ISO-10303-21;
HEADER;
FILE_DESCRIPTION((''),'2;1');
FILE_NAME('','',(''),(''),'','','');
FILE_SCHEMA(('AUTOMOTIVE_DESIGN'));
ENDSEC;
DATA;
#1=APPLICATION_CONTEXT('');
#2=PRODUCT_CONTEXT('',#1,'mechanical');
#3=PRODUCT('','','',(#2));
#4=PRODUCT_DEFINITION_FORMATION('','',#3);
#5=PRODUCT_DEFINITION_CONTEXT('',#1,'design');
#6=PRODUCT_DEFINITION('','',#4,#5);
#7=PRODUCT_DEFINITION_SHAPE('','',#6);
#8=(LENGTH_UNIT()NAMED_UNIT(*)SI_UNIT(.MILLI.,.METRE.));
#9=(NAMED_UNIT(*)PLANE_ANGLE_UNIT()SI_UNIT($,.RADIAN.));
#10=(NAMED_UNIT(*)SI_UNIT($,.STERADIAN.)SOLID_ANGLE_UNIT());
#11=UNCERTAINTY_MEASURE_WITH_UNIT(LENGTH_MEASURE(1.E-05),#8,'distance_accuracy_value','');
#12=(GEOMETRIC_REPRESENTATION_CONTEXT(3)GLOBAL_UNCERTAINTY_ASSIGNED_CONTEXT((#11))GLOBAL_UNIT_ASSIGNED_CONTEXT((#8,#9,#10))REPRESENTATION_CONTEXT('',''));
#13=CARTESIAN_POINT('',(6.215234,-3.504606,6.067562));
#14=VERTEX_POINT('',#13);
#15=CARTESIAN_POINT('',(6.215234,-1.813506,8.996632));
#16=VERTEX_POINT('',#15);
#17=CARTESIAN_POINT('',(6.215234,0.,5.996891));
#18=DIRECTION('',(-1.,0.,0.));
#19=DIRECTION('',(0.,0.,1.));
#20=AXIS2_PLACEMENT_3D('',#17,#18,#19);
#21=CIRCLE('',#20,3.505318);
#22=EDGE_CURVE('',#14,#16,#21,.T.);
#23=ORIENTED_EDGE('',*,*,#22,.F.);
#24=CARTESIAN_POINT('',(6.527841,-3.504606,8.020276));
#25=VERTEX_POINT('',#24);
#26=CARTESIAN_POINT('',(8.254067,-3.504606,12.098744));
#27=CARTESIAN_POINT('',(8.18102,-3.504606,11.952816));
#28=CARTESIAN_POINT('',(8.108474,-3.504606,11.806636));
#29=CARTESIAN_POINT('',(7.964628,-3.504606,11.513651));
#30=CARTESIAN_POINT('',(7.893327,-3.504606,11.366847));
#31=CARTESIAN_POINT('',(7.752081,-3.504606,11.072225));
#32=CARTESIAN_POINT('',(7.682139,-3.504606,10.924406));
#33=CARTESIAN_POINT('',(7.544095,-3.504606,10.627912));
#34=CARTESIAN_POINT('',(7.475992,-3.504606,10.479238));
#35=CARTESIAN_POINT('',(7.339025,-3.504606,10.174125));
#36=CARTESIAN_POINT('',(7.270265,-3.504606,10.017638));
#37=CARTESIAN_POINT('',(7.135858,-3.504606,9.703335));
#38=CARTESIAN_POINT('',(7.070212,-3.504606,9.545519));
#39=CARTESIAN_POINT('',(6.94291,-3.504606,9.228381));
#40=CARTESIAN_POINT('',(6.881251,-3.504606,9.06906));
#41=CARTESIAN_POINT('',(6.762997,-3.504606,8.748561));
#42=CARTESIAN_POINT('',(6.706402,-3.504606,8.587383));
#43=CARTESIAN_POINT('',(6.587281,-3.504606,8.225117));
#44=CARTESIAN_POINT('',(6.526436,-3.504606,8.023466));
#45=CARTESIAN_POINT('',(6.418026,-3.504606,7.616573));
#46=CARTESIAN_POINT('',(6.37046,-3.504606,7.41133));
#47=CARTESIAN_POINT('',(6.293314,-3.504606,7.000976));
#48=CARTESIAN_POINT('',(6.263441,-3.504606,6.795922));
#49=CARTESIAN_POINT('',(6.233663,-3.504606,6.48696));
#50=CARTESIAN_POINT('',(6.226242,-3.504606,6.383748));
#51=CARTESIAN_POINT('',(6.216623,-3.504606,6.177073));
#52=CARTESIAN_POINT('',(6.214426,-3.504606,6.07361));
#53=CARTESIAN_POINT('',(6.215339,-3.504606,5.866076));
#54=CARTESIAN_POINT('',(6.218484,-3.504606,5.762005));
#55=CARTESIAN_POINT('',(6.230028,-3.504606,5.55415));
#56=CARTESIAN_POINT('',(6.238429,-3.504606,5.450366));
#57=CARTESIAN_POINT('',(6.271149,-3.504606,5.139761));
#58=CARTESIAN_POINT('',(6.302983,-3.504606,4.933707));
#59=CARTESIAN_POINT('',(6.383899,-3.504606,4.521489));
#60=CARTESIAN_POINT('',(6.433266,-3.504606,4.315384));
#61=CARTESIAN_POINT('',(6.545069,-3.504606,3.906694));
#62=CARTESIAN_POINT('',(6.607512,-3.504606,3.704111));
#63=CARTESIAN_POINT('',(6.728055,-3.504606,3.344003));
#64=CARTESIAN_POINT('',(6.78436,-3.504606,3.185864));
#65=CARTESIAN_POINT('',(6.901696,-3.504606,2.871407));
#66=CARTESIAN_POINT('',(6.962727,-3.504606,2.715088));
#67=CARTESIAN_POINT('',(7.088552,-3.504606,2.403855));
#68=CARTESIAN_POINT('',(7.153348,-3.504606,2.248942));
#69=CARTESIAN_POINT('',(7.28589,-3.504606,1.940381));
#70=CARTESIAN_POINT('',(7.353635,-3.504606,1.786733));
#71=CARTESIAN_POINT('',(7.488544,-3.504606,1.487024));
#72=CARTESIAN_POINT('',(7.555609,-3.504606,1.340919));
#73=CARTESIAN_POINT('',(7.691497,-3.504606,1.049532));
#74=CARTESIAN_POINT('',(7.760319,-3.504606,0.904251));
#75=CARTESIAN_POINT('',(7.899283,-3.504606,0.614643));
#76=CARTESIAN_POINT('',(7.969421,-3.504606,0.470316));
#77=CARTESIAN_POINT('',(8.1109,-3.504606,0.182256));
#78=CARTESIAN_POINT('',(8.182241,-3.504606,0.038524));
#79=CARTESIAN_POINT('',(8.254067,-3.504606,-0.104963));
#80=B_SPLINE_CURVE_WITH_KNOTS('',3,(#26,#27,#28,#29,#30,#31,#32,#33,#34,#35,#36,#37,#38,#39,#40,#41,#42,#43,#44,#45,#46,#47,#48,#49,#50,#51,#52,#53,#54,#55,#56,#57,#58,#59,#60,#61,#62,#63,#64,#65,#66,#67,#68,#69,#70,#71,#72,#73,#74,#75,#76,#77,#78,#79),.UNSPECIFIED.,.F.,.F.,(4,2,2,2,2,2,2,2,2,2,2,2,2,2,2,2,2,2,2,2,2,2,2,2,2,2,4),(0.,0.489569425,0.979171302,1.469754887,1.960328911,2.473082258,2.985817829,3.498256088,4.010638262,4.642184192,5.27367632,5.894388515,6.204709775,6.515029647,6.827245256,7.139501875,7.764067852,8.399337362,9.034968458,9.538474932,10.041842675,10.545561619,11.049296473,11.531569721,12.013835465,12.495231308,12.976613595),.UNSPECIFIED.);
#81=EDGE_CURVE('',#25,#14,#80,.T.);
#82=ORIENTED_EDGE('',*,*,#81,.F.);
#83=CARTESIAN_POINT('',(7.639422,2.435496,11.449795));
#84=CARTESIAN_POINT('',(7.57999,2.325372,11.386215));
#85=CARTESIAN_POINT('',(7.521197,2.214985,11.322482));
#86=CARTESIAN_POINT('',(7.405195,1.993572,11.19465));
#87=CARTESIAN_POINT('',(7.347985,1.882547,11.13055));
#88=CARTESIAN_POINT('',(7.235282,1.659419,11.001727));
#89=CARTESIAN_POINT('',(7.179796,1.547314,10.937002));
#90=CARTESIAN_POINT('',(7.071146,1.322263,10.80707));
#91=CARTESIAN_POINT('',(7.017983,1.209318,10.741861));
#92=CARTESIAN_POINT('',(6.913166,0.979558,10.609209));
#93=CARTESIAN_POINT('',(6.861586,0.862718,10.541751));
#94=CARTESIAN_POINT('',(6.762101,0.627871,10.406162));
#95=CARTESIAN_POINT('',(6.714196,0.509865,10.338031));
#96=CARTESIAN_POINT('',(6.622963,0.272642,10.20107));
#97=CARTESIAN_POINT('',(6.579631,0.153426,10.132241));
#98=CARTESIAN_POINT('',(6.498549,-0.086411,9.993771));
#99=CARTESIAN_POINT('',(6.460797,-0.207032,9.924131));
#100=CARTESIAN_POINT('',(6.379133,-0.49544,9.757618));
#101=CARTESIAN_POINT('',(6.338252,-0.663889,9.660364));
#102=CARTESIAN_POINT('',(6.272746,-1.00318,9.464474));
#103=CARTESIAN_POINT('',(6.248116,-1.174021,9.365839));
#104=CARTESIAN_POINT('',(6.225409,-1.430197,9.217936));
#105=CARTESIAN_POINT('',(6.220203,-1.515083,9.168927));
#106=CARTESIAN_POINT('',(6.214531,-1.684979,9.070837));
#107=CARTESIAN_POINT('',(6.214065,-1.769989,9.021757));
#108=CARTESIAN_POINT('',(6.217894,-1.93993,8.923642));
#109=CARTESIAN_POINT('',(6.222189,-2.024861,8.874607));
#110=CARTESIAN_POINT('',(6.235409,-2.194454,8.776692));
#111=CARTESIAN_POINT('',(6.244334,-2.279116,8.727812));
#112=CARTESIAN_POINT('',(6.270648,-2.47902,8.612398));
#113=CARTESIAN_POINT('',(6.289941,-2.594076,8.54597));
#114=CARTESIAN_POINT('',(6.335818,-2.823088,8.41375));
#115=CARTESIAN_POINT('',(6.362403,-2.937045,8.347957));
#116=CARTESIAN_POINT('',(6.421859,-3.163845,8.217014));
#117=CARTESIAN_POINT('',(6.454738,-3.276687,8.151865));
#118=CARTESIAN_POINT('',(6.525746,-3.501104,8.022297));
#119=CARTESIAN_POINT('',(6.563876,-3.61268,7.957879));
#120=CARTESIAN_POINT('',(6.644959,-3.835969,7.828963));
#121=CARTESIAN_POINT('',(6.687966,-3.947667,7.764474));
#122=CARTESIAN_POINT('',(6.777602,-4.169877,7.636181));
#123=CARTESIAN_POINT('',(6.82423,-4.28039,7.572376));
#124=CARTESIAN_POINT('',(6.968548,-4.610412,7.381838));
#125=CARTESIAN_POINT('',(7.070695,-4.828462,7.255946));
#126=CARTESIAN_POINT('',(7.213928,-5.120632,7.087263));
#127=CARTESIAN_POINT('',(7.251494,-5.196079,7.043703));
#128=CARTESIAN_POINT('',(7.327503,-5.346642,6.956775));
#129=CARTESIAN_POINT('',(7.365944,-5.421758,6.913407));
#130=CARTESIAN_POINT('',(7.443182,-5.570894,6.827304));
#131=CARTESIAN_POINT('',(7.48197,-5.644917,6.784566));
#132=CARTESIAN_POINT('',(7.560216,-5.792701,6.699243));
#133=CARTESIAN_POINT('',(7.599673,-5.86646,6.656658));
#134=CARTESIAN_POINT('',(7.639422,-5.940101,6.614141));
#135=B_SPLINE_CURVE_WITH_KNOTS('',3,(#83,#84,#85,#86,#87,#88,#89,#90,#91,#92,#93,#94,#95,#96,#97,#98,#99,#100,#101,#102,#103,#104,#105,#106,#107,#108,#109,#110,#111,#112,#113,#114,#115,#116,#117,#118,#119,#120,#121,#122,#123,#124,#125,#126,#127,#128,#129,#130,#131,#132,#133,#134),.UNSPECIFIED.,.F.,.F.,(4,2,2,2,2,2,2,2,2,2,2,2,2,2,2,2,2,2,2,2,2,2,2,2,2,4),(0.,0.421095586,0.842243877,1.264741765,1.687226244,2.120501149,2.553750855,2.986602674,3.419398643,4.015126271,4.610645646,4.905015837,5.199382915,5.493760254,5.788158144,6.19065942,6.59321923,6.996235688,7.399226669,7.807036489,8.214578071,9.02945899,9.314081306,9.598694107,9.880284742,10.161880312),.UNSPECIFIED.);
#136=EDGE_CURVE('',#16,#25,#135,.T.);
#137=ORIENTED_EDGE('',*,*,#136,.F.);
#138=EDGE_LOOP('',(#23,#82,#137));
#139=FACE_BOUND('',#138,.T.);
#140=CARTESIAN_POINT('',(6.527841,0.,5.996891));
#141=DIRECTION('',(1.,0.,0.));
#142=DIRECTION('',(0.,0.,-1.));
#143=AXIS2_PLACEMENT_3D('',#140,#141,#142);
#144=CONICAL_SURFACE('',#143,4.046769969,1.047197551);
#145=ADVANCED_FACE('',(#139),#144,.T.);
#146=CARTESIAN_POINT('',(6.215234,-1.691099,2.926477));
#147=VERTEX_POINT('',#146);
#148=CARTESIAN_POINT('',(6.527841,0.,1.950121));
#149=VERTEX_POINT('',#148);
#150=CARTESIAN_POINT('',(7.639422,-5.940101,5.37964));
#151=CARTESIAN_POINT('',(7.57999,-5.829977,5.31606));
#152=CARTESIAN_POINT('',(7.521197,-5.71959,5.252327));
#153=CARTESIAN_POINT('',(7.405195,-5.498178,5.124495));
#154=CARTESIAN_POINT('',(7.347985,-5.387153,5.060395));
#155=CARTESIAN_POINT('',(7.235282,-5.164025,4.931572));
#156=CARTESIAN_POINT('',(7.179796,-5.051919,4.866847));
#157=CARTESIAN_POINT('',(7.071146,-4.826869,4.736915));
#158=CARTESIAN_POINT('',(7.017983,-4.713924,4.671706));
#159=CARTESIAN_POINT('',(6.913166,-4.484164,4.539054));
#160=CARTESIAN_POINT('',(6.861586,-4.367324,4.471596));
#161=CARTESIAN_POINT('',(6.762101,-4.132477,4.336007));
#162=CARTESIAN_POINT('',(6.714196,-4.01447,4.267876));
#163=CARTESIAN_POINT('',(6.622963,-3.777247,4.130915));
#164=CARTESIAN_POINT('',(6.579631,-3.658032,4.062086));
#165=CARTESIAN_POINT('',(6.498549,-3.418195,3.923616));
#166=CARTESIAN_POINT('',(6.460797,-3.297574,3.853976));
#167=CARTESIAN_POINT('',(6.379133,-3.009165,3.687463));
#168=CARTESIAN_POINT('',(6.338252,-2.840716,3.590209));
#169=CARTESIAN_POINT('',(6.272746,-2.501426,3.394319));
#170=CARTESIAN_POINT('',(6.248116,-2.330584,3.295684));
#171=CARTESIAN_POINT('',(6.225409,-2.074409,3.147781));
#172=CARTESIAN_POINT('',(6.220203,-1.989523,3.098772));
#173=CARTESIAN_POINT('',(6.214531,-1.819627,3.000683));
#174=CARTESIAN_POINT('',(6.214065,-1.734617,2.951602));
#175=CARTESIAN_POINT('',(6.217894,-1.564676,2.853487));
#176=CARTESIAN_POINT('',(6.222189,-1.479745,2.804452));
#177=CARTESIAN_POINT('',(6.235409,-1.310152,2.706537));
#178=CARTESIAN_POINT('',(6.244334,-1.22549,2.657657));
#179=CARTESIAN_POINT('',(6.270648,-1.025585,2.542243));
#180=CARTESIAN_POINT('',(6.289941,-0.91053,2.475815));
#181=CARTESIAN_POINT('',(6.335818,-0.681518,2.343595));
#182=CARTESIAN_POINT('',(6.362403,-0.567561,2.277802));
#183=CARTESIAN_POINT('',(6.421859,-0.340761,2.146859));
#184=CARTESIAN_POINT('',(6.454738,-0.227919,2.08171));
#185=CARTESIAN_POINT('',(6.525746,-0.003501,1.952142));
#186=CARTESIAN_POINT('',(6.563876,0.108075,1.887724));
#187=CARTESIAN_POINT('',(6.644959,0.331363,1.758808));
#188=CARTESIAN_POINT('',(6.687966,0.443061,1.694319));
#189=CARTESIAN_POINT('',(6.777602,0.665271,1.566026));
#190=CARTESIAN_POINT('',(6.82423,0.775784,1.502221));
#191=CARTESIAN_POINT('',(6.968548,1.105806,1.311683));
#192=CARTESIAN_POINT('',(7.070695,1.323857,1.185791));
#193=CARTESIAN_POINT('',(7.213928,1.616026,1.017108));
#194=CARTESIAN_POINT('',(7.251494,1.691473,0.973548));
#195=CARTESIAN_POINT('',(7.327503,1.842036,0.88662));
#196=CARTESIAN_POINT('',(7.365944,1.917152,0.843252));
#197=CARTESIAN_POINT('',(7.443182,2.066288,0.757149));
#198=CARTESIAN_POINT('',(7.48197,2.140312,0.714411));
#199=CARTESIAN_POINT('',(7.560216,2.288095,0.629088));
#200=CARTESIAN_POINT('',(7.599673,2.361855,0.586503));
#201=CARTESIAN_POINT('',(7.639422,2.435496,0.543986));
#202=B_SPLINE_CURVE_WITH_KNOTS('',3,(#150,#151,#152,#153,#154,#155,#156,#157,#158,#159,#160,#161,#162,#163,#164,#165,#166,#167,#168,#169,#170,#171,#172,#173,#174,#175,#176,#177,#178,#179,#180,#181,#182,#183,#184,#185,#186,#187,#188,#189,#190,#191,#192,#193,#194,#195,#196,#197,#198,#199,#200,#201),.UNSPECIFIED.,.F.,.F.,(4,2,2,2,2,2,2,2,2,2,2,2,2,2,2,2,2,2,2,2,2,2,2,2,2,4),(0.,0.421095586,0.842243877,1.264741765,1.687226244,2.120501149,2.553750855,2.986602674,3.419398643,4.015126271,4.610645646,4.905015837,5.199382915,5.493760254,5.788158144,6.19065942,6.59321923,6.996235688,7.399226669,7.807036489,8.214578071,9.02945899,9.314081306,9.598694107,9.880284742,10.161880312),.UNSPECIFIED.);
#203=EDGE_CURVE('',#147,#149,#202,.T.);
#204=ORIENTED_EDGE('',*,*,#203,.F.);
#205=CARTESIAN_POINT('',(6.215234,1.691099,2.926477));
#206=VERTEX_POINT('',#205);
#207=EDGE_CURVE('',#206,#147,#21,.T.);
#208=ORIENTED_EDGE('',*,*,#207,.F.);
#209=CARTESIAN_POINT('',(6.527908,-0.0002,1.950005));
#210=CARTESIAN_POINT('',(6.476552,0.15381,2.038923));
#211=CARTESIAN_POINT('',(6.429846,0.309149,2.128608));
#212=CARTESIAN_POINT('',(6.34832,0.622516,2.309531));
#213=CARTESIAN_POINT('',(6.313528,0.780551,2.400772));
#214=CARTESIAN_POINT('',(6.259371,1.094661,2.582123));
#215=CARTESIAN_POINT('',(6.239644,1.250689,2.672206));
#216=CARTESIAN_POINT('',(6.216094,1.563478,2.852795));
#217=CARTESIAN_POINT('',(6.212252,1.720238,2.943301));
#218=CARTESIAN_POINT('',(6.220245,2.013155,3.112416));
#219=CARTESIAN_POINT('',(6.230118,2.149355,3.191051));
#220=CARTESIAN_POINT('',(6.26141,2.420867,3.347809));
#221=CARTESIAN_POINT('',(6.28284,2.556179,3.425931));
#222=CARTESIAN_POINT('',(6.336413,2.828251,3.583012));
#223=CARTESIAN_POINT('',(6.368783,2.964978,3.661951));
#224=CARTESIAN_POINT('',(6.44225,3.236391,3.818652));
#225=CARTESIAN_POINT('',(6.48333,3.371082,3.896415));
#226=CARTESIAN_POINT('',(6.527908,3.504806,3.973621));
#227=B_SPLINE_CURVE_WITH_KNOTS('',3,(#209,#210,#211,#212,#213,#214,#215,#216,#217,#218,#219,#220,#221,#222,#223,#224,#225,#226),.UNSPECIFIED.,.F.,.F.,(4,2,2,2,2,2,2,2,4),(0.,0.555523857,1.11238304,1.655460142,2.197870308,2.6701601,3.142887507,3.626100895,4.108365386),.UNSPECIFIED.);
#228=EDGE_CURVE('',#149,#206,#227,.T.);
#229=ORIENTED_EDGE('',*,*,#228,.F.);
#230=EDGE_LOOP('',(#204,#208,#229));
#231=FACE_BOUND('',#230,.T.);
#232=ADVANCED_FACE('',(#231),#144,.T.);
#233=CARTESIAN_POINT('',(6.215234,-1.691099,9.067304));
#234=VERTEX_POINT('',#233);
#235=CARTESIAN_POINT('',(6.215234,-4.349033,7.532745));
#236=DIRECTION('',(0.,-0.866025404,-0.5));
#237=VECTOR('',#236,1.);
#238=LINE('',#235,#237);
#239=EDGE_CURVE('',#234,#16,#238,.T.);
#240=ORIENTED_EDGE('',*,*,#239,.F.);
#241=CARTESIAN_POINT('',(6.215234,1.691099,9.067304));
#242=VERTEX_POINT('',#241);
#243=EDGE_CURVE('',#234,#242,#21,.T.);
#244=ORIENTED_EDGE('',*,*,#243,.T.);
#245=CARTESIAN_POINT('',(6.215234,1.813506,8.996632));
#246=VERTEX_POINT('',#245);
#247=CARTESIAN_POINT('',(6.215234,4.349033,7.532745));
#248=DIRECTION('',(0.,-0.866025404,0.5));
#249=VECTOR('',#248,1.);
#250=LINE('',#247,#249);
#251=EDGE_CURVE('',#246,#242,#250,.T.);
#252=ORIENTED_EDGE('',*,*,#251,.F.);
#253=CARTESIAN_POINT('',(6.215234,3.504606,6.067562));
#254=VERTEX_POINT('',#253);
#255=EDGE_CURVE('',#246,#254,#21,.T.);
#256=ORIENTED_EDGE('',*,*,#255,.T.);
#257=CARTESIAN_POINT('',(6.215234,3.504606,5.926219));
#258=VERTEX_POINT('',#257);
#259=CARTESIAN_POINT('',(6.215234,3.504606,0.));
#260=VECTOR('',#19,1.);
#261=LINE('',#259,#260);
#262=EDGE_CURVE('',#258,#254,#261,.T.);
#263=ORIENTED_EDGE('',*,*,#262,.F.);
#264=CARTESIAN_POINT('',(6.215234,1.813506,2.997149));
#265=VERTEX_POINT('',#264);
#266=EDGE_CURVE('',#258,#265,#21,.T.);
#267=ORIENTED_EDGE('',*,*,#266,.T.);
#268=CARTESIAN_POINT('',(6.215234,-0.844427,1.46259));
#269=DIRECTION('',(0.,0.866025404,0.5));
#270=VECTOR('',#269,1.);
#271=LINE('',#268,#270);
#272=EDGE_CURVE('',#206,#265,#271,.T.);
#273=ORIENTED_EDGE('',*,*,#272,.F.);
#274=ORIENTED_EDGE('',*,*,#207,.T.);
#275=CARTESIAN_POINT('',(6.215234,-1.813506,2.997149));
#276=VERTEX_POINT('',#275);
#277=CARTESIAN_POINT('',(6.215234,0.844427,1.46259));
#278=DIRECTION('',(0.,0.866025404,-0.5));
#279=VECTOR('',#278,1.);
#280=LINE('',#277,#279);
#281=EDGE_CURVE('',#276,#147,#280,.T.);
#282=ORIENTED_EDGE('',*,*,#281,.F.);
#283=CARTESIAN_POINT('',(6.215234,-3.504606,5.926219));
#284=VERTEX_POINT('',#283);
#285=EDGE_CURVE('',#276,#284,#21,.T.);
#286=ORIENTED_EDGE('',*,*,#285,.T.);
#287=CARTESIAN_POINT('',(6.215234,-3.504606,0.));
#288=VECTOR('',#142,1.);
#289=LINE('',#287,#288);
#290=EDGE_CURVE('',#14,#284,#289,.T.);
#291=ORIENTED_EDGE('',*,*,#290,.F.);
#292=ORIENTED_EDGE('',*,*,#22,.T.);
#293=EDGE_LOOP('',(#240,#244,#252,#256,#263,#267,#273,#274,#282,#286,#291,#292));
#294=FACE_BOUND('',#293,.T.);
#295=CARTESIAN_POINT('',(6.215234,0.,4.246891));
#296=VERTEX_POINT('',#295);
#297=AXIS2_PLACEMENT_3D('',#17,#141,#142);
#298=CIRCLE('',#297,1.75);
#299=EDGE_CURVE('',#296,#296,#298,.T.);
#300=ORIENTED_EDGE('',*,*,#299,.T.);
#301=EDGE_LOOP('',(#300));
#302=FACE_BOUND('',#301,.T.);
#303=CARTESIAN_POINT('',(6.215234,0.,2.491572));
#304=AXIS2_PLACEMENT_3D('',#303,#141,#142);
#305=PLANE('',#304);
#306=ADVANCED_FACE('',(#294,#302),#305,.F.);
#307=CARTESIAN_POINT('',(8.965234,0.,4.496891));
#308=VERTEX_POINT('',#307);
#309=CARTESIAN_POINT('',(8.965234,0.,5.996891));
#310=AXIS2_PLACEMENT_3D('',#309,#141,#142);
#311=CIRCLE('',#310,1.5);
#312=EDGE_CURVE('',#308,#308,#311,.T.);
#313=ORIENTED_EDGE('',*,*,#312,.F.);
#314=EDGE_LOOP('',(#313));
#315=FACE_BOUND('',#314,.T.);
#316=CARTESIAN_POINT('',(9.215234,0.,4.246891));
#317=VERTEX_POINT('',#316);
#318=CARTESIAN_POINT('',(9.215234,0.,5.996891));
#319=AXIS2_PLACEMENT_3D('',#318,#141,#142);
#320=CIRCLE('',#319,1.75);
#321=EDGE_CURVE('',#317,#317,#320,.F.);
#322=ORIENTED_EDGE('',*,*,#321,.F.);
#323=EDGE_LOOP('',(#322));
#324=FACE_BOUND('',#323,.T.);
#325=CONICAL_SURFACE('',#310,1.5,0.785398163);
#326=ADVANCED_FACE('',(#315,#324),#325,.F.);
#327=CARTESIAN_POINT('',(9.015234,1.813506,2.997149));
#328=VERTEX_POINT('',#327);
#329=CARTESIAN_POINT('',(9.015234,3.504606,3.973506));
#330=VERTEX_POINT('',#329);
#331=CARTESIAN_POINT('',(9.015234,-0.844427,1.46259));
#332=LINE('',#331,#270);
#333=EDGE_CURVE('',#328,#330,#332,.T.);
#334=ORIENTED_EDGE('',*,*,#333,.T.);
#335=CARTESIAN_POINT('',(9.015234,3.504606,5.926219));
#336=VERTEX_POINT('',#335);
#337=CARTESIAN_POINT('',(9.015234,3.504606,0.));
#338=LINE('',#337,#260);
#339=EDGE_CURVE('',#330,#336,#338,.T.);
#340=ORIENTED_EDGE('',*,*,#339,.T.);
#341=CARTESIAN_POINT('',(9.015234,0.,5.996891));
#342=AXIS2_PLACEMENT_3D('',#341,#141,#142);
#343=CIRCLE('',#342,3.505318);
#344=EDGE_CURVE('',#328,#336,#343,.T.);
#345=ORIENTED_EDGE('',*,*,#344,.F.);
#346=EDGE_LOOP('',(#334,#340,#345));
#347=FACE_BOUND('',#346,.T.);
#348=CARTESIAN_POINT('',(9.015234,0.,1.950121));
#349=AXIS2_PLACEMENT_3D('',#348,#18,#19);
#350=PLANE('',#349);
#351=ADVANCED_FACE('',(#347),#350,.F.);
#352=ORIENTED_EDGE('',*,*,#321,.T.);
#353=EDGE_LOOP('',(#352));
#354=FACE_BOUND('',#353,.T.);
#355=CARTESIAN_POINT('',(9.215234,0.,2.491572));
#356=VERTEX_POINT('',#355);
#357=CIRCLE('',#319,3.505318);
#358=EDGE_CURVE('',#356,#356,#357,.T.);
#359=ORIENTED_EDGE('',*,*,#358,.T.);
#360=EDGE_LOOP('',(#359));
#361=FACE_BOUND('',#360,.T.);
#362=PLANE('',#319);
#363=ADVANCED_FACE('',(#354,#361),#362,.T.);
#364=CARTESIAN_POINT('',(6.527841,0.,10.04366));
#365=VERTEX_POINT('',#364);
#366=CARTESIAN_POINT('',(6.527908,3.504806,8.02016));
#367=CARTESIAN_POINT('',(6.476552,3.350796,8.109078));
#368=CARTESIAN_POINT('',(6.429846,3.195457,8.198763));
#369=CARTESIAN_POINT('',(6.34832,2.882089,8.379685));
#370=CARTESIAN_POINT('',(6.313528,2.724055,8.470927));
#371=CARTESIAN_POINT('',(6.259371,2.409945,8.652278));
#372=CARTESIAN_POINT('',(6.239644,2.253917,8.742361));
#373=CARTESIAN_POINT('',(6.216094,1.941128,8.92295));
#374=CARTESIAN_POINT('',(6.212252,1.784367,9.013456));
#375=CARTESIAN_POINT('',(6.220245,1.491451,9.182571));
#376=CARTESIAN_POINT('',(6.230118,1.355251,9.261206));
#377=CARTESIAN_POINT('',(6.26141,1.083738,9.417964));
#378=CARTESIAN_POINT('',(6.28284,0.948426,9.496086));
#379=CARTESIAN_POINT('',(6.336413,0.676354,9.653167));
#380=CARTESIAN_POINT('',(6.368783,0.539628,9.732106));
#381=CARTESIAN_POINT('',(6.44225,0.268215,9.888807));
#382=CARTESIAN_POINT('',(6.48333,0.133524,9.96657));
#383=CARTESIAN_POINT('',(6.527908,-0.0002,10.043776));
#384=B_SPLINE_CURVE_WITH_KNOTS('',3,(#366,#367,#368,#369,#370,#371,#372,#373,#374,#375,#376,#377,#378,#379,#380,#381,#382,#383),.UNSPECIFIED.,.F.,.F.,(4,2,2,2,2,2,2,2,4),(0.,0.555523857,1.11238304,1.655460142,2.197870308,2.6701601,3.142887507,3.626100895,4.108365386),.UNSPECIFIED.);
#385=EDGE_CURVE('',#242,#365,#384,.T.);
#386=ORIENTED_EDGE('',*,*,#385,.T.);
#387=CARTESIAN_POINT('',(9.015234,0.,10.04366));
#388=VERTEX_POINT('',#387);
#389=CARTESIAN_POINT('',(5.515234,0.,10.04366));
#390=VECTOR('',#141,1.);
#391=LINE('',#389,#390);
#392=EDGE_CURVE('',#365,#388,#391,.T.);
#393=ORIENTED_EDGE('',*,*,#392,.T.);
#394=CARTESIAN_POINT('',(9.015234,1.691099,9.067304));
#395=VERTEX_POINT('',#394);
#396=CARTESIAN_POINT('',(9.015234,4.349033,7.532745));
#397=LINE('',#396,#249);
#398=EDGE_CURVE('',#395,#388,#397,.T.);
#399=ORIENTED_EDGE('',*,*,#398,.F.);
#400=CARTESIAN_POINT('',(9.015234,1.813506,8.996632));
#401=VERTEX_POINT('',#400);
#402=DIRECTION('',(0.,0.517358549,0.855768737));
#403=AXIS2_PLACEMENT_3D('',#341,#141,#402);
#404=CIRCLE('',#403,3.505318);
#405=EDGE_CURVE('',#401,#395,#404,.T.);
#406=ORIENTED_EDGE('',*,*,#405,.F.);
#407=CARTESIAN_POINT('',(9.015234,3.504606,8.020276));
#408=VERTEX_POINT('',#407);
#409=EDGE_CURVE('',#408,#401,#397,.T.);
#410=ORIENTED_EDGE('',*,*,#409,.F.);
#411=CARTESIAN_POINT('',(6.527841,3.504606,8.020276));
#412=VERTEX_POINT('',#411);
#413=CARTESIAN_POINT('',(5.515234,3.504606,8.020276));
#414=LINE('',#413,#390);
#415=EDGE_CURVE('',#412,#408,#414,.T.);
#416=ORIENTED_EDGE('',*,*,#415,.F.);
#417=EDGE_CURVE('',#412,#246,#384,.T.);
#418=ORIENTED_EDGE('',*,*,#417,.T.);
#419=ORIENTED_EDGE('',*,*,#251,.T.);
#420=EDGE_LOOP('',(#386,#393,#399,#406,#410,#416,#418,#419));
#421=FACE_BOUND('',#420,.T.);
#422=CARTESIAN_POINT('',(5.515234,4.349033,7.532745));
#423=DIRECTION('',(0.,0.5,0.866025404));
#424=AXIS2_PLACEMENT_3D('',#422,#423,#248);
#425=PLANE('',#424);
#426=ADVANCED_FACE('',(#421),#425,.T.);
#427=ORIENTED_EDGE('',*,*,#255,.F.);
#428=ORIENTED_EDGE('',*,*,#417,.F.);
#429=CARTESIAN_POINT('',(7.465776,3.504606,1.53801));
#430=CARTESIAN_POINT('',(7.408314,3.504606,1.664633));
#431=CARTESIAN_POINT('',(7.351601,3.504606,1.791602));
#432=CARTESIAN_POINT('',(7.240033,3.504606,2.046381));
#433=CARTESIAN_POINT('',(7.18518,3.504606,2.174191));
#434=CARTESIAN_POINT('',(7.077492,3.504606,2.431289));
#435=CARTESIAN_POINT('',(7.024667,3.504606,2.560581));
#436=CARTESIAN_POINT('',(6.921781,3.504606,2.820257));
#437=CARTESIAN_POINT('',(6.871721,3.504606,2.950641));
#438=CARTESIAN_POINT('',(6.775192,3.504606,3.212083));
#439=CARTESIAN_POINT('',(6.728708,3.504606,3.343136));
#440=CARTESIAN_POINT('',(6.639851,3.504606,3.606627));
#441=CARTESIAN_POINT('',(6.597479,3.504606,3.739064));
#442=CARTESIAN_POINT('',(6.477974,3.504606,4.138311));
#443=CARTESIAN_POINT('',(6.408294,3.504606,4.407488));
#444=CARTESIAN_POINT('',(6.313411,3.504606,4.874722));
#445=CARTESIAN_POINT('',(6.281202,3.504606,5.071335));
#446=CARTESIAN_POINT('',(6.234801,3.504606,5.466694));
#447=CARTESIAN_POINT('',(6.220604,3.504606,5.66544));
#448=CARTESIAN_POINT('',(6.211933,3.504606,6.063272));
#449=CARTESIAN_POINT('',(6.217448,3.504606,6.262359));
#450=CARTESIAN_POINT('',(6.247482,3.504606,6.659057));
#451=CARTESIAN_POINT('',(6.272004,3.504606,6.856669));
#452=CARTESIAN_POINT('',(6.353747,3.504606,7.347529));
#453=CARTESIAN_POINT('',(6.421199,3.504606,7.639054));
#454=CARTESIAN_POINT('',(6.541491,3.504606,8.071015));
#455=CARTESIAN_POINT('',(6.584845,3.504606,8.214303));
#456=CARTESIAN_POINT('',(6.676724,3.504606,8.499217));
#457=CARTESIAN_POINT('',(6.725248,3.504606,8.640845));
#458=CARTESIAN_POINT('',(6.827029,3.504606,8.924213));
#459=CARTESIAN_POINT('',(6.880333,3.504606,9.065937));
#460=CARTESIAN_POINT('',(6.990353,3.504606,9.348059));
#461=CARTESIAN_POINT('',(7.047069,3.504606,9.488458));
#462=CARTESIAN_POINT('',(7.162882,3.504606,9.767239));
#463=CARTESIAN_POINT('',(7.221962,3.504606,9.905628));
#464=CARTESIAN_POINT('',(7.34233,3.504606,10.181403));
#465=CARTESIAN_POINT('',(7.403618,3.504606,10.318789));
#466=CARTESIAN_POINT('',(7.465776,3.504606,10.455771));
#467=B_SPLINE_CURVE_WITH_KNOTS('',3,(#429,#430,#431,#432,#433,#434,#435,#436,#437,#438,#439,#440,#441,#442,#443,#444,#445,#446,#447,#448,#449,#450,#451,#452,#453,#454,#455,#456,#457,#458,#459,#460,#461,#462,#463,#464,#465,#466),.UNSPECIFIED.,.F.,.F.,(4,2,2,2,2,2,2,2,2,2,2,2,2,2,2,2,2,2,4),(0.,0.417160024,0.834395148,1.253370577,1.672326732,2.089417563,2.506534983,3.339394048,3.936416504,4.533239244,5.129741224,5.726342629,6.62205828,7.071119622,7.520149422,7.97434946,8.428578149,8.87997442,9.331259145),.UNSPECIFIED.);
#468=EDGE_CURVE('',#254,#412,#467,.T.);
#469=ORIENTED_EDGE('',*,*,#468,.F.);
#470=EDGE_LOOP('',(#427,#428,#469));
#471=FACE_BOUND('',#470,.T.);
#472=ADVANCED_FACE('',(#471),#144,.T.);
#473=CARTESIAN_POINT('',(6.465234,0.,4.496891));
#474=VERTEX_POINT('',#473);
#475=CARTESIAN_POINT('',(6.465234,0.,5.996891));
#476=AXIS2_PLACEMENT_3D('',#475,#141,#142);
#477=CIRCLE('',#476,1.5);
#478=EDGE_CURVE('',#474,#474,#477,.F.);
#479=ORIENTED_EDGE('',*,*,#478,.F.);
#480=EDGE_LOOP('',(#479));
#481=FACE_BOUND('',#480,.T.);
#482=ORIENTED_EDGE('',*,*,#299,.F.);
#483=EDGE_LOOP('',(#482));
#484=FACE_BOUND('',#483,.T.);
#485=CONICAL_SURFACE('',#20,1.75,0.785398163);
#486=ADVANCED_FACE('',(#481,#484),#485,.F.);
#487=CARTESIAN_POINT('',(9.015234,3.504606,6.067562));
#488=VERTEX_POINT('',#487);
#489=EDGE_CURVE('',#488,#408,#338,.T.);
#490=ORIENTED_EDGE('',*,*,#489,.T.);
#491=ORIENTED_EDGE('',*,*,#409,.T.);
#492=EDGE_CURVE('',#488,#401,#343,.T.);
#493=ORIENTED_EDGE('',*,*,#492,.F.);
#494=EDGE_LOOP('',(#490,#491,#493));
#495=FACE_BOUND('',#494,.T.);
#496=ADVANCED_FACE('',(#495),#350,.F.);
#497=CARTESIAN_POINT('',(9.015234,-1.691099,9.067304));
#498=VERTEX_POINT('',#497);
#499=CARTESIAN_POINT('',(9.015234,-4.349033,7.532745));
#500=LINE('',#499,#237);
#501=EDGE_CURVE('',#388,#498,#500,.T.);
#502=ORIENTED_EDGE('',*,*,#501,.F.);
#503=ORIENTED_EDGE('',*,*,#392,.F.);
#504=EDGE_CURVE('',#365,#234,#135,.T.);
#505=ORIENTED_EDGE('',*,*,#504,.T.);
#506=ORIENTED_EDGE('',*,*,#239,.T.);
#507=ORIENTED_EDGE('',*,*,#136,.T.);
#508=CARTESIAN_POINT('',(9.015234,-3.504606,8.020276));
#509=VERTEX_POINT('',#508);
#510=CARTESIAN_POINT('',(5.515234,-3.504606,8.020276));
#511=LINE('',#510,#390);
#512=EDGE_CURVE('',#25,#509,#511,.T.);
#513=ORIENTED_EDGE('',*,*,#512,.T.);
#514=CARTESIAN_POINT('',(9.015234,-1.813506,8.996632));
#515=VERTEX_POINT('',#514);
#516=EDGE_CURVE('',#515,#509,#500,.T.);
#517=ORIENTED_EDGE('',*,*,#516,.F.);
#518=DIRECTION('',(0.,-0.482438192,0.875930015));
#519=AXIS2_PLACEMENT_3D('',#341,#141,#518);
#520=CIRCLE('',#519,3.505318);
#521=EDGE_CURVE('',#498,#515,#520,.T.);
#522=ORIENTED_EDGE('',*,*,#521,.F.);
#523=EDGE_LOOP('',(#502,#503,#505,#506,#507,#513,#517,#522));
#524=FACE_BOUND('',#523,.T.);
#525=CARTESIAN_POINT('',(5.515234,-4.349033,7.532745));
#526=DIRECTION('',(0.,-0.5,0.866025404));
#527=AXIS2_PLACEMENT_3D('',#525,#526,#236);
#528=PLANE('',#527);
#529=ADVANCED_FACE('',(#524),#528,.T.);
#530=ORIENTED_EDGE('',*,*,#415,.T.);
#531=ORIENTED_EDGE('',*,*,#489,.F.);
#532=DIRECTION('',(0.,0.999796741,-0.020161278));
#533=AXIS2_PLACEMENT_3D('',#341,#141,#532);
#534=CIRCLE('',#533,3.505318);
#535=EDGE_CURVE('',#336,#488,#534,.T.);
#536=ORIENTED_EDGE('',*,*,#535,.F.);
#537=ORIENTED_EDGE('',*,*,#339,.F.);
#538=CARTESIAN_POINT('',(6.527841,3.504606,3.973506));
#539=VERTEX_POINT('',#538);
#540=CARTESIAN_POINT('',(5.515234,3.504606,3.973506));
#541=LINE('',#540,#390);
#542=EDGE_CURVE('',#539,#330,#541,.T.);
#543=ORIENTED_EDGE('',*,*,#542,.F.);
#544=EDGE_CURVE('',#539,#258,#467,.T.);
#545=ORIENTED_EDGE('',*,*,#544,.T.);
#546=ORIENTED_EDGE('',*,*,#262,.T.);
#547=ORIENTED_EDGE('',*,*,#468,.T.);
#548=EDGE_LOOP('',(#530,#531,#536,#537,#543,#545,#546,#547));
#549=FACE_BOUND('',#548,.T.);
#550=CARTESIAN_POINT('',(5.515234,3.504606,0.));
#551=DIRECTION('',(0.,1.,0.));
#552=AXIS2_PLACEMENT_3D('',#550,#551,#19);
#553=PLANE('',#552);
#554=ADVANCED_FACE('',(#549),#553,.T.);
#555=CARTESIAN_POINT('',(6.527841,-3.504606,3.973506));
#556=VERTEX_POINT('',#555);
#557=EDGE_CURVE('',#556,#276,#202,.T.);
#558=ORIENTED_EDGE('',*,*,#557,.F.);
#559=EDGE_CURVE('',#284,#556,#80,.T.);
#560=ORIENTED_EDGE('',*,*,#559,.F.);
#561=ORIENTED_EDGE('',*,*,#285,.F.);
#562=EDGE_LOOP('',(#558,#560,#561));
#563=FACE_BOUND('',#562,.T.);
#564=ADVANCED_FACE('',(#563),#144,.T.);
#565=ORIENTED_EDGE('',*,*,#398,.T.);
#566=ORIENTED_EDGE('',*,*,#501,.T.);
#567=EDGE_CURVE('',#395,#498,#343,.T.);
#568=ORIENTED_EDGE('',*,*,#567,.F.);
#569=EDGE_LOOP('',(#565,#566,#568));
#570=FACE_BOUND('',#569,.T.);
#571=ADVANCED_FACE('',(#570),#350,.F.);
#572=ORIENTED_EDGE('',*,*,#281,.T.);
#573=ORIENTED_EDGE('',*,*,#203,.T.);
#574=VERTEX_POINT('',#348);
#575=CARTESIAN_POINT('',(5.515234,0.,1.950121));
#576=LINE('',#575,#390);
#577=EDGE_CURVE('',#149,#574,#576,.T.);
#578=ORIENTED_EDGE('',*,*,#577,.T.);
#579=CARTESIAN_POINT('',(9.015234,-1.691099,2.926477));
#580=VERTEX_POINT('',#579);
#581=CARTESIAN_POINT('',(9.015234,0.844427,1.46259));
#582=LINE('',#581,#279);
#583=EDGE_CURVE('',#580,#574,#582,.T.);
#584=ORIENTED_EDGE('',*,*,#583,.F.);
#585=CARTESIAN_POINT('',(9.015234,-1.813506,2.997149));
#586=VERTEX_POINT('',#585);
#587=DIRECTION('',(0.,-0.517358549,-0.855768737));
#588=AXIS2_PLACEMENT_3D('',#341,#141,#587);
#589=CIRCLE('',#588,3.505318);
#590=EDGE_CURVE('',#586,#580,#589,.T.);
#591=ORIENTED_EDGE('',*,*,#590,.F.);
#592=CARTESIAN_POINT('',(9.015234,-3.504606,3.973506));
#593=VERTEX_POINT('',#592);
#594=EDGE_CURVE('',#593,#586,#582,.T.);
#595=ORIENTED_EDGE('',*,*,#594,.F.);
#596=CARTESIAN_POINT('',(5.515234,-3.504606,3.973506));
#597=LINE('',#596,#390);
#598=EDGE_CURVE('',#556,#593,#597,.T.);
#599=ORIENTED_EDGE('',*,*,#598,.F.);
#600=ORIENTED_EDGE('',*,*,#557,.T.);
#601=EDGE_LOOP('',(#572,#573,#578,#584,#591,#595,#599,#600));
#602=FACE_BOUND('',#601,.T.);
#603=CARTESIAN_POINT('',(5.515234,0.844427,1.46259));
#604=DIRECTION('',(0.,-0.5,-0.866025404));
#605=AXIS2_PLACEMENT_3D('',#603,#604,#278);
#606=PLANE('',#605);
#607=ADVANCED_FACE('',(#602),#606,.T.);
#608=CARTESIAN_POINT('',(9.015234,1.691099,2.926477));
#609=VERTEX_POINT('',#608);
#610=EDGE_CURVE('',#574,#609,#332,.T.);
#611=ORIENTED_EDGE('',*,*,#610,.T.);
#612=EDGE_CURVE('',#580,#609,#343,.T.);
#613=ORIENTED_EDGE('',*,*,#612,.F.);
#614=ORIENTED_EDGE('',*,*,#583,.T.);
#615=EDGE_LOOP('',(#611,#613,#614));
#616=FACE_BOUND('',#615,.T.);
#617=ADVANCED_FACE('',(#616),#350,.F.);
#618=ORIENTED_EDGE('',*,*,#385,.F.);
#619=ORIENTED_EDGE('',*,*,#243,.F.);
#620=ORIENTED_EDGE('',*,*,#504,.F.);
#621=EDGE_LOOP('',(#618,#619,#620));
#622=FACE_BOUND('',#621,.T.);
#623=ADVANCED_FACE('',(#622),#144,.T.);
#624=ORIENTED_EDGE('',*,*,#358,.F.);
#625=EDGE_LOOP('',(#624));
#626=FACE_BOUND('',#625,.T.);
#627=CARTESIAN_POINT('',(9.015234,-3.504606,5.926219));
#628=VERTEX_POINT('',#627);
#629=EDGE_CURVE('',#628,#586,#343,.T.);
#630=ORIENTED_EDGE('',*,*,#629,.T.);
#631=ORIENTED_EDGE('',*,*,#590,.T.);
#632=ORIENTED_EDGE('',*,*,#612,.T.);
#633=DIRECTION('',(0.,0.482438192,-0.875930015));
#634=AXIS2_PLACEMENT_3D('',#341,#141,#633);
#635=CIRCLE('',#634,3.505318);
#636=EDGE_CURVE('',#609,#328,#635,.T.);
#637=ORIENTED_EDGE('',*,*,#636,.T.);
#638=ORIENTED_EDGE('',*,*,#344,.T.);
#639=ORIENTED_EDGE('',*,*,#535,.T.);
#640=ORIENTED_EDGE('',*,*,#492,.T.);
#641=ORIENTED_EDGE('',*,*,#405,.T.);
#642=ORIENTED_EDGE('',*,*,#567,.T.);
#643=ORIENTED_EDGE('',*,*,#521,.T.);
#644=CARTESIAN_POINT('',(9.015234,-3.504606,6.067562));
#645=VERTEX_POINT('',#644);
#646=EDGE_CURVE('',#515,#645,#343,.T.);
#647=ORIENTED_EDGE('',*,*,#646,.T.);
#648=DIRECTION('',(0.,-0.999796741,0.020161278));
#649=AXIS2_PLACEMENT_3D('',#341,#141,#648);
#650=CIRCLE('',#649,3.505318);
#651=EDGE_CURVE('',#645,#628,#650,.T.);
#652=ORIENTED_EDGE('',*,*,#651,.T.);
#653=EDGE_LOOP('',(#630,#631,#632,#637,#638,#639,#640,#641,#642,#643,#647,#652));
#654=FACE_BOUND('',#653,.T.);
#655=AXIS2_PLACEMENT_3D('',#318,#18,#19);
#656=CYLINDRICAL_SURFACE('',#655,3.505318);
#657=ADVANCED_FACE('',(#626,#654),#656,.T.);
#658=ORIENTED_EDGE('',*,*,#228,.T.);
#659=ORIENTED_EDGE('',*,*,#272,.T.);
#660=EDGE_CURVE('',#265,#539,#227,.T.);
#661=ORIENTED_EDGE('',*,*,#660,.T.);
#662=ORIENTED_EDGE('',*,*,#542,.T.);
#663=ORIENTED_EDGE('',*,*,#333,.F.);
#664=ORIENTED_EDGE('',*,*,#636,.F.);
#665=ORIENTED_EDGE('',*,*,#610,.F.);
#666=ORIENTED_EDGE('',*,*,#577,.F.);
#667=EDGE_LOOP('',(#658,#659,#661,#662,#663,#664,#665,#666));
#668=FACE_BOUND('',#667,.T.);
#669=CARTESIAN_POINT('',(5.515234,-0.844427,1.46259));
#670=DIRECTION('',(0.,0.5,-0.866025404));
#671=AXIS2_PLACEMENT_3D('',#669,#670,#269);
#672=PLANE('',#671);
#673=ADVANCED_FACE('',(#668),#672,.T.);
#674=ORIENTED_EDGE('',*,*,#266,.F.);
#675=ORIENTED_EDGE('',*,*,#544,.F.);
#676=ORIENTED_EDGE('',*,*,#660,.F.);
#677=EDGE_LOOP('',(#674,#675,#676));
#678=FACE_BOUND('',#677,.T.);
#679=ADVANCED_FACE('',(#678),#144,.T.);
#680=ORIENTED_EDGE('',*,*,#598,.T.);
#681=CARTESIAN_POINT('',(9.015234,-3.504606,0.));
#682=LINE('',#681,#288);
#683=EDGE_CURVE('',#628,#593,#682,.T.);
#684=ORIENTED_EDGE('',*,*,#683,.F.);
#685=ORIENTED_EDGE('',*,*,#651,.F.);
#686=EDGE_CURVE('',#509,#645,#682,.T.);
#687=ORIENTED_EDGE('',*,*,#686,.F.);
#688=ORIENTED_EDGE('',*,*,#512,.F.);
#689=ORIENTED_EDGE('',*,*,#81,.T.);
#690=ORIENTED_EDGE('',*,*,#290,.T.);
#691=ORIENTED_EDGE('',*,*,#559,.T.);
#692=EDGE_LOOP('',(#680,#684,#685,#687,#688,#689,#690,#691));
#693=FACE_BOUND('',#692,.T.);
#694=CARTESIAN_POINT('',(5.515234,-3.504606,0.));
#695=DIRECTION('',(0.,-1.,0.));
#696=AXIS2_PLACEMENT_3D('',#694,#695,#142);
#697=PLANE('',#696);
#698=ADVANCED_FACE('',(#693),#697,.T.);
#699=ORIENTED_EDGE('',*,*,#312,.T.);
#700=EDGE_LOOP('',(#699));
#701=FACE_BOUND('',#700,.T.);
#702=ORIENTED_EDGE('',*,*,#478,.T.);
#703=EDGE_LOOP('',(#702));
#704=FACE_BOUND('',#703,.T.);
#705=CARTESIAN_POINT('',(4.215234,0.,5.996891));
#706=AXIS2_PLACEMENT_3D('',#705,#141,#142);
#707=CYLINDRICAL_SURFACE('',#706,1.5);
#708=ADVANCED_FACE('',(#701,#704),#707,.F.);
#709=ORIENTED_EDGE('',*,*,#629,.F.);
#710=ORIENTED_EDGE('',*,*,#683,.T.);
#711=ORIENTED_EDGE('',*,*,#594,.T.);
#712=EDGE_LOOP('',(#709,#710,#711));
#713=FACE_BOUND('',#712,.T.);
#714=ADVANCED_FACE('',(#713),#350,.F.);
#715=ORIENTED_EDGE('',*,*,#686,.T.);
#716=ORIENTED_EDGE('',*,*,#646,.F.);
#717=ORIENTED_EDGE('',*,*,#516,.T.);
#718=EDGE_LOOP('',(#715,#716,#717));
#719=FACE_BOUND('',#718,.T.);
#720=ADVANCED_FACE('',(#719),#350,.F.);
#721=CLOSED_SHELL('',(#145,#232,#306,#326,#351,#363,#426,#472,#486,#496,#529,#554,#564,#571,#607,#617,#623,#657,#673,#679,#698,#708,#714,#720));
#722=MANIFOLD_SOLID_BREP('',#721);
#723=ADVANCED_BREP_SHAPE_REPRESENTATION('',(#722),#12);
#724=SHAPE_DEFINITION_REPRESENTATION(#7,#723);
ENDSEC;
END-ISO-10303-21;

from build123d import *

# Parameters (mm, degrees)
CUT_EXTRUDE8_DEPTH   = 3.5
SKETCH16_R           = 3.505318085
BOSS_EXTRUDE10_DEPTH = 0.2
SKETCH17_R           = 1.5
CUT_EXTRUDE9_DEPTH   = 5
CHAMFER2_SIZE        = 0.25


with BuildPart() as part:
    # Sketch6 → Revolve10 (revolve)
    with BuildSketch(Plane(origin=(0, 0, 0), x_dir=(1, 0, 0), z_dir=(0, 1, 0))):
        Polygon((9.015233675, -1.950120561), (9.015233675, -5.996890529), (6.215233675, -5.996890529), (6.215233675, -2.491572445), (6.527841066, -1.950120561), align=None)
    revolve(axis=Axis((5.148806832, 0, 5.996890529), (1, 0, 0)))

    # Sketch14 → Cut-Extrude8 (cut)
    with BuildSketch(Plane(origin=(9.015233675, 0, 0), x_dir=(0, 0, -1), z_dir=(1, 0, 0))):
        with BuildLine():
            Line((-8.020275514, 3.504605596), (-3.973505545, 3.504605596))
            ThreePointArc((-3.973505545, 3.504605596), (-5.996890529, 4.046769969), (-8.020275514, 3.504605596))
        make_face()
        with BuildLine():
            Line((-10.043660498, 0), (-8.020275514, 3.504605596))
            ThreePointArc((-8.020275514, 3.504605596), (-9.501496126, 2.023384984), (-10.043660498, 0))
        make_face()
        with BuildLine():
            ThreePointArc((-10.043660498, 0), (-9.501496126, -2.023384984), (-8.020275514, -3.504605596))
            Line((-8.020275514, -3.504605596), (-10.043660498, 0))
        make_face()
        with BuildLine():
            ThreePointArc((-8.020275514, -3.504605596), (-5.996890529, -4.046769969), (-3.973505545, -3.504605596))
            Line((-3.973505545, -3.504605596), (-8.020275514, -3.504605596))
        make_face()
        with BuildLine():
            ThreePointArc((-3.973505545, -3.504605596), (-2.492284933, -2.023384984), (-1.950120561, 0))
            Line((-1.950120561, 0), (-3.973505545, -3.504605596))
        make_face()
        with BuildLine():
            Line((-3.973505545, 3.504605596), (-1.950120561, 0))
            ThreePointArc((-1.950120561, 0), (-2.492284933, 2.023384984), (-3.973505545, 3.504605596))
        make_face()
    extrude(amount=-CUT_EXTRUDE8_DEPTH, mode=Mode.SUBTRACT)

    # Sketch16 → Boss-Extrude10 (add)
    with BuildSketch(Plane(origin=(9.015233675, 0, 0), x_dir=(0, 0, -1), z_dir=(1, 0, 0))):
        with Locations((-5.996890529, 0)):
            Circle(SKETCH16_R)
    extrude(amount=BOSS_EXTRUDE10_DEPTH)

    # Sketch17 → Cut-Extrude9 (cut)
    with BuildSketch(Plane(origin=(9.215233675, 0, 0), x_dir=(0, 0, -1), z_dir=(1, 0, 0))):
        with Locations((-5.996890529, 0)):
            Circle(SKETCH17_R)
    extrude(amount=-CUT_EXTRUDE9_DEPTH, mode=Mode.SUBTRACT)

    # Chamfer2
    chamfer2_edges = [part.edges().sort_by_distance(p)[0] for p in [
        (6.215233675, 0, 7.496890529),
        (9.215233675, 0, 7.496890529),
    ]]
    chamfer(chamfer2_edges, length=CHAMFER2_SIZE)


solid = part.part
